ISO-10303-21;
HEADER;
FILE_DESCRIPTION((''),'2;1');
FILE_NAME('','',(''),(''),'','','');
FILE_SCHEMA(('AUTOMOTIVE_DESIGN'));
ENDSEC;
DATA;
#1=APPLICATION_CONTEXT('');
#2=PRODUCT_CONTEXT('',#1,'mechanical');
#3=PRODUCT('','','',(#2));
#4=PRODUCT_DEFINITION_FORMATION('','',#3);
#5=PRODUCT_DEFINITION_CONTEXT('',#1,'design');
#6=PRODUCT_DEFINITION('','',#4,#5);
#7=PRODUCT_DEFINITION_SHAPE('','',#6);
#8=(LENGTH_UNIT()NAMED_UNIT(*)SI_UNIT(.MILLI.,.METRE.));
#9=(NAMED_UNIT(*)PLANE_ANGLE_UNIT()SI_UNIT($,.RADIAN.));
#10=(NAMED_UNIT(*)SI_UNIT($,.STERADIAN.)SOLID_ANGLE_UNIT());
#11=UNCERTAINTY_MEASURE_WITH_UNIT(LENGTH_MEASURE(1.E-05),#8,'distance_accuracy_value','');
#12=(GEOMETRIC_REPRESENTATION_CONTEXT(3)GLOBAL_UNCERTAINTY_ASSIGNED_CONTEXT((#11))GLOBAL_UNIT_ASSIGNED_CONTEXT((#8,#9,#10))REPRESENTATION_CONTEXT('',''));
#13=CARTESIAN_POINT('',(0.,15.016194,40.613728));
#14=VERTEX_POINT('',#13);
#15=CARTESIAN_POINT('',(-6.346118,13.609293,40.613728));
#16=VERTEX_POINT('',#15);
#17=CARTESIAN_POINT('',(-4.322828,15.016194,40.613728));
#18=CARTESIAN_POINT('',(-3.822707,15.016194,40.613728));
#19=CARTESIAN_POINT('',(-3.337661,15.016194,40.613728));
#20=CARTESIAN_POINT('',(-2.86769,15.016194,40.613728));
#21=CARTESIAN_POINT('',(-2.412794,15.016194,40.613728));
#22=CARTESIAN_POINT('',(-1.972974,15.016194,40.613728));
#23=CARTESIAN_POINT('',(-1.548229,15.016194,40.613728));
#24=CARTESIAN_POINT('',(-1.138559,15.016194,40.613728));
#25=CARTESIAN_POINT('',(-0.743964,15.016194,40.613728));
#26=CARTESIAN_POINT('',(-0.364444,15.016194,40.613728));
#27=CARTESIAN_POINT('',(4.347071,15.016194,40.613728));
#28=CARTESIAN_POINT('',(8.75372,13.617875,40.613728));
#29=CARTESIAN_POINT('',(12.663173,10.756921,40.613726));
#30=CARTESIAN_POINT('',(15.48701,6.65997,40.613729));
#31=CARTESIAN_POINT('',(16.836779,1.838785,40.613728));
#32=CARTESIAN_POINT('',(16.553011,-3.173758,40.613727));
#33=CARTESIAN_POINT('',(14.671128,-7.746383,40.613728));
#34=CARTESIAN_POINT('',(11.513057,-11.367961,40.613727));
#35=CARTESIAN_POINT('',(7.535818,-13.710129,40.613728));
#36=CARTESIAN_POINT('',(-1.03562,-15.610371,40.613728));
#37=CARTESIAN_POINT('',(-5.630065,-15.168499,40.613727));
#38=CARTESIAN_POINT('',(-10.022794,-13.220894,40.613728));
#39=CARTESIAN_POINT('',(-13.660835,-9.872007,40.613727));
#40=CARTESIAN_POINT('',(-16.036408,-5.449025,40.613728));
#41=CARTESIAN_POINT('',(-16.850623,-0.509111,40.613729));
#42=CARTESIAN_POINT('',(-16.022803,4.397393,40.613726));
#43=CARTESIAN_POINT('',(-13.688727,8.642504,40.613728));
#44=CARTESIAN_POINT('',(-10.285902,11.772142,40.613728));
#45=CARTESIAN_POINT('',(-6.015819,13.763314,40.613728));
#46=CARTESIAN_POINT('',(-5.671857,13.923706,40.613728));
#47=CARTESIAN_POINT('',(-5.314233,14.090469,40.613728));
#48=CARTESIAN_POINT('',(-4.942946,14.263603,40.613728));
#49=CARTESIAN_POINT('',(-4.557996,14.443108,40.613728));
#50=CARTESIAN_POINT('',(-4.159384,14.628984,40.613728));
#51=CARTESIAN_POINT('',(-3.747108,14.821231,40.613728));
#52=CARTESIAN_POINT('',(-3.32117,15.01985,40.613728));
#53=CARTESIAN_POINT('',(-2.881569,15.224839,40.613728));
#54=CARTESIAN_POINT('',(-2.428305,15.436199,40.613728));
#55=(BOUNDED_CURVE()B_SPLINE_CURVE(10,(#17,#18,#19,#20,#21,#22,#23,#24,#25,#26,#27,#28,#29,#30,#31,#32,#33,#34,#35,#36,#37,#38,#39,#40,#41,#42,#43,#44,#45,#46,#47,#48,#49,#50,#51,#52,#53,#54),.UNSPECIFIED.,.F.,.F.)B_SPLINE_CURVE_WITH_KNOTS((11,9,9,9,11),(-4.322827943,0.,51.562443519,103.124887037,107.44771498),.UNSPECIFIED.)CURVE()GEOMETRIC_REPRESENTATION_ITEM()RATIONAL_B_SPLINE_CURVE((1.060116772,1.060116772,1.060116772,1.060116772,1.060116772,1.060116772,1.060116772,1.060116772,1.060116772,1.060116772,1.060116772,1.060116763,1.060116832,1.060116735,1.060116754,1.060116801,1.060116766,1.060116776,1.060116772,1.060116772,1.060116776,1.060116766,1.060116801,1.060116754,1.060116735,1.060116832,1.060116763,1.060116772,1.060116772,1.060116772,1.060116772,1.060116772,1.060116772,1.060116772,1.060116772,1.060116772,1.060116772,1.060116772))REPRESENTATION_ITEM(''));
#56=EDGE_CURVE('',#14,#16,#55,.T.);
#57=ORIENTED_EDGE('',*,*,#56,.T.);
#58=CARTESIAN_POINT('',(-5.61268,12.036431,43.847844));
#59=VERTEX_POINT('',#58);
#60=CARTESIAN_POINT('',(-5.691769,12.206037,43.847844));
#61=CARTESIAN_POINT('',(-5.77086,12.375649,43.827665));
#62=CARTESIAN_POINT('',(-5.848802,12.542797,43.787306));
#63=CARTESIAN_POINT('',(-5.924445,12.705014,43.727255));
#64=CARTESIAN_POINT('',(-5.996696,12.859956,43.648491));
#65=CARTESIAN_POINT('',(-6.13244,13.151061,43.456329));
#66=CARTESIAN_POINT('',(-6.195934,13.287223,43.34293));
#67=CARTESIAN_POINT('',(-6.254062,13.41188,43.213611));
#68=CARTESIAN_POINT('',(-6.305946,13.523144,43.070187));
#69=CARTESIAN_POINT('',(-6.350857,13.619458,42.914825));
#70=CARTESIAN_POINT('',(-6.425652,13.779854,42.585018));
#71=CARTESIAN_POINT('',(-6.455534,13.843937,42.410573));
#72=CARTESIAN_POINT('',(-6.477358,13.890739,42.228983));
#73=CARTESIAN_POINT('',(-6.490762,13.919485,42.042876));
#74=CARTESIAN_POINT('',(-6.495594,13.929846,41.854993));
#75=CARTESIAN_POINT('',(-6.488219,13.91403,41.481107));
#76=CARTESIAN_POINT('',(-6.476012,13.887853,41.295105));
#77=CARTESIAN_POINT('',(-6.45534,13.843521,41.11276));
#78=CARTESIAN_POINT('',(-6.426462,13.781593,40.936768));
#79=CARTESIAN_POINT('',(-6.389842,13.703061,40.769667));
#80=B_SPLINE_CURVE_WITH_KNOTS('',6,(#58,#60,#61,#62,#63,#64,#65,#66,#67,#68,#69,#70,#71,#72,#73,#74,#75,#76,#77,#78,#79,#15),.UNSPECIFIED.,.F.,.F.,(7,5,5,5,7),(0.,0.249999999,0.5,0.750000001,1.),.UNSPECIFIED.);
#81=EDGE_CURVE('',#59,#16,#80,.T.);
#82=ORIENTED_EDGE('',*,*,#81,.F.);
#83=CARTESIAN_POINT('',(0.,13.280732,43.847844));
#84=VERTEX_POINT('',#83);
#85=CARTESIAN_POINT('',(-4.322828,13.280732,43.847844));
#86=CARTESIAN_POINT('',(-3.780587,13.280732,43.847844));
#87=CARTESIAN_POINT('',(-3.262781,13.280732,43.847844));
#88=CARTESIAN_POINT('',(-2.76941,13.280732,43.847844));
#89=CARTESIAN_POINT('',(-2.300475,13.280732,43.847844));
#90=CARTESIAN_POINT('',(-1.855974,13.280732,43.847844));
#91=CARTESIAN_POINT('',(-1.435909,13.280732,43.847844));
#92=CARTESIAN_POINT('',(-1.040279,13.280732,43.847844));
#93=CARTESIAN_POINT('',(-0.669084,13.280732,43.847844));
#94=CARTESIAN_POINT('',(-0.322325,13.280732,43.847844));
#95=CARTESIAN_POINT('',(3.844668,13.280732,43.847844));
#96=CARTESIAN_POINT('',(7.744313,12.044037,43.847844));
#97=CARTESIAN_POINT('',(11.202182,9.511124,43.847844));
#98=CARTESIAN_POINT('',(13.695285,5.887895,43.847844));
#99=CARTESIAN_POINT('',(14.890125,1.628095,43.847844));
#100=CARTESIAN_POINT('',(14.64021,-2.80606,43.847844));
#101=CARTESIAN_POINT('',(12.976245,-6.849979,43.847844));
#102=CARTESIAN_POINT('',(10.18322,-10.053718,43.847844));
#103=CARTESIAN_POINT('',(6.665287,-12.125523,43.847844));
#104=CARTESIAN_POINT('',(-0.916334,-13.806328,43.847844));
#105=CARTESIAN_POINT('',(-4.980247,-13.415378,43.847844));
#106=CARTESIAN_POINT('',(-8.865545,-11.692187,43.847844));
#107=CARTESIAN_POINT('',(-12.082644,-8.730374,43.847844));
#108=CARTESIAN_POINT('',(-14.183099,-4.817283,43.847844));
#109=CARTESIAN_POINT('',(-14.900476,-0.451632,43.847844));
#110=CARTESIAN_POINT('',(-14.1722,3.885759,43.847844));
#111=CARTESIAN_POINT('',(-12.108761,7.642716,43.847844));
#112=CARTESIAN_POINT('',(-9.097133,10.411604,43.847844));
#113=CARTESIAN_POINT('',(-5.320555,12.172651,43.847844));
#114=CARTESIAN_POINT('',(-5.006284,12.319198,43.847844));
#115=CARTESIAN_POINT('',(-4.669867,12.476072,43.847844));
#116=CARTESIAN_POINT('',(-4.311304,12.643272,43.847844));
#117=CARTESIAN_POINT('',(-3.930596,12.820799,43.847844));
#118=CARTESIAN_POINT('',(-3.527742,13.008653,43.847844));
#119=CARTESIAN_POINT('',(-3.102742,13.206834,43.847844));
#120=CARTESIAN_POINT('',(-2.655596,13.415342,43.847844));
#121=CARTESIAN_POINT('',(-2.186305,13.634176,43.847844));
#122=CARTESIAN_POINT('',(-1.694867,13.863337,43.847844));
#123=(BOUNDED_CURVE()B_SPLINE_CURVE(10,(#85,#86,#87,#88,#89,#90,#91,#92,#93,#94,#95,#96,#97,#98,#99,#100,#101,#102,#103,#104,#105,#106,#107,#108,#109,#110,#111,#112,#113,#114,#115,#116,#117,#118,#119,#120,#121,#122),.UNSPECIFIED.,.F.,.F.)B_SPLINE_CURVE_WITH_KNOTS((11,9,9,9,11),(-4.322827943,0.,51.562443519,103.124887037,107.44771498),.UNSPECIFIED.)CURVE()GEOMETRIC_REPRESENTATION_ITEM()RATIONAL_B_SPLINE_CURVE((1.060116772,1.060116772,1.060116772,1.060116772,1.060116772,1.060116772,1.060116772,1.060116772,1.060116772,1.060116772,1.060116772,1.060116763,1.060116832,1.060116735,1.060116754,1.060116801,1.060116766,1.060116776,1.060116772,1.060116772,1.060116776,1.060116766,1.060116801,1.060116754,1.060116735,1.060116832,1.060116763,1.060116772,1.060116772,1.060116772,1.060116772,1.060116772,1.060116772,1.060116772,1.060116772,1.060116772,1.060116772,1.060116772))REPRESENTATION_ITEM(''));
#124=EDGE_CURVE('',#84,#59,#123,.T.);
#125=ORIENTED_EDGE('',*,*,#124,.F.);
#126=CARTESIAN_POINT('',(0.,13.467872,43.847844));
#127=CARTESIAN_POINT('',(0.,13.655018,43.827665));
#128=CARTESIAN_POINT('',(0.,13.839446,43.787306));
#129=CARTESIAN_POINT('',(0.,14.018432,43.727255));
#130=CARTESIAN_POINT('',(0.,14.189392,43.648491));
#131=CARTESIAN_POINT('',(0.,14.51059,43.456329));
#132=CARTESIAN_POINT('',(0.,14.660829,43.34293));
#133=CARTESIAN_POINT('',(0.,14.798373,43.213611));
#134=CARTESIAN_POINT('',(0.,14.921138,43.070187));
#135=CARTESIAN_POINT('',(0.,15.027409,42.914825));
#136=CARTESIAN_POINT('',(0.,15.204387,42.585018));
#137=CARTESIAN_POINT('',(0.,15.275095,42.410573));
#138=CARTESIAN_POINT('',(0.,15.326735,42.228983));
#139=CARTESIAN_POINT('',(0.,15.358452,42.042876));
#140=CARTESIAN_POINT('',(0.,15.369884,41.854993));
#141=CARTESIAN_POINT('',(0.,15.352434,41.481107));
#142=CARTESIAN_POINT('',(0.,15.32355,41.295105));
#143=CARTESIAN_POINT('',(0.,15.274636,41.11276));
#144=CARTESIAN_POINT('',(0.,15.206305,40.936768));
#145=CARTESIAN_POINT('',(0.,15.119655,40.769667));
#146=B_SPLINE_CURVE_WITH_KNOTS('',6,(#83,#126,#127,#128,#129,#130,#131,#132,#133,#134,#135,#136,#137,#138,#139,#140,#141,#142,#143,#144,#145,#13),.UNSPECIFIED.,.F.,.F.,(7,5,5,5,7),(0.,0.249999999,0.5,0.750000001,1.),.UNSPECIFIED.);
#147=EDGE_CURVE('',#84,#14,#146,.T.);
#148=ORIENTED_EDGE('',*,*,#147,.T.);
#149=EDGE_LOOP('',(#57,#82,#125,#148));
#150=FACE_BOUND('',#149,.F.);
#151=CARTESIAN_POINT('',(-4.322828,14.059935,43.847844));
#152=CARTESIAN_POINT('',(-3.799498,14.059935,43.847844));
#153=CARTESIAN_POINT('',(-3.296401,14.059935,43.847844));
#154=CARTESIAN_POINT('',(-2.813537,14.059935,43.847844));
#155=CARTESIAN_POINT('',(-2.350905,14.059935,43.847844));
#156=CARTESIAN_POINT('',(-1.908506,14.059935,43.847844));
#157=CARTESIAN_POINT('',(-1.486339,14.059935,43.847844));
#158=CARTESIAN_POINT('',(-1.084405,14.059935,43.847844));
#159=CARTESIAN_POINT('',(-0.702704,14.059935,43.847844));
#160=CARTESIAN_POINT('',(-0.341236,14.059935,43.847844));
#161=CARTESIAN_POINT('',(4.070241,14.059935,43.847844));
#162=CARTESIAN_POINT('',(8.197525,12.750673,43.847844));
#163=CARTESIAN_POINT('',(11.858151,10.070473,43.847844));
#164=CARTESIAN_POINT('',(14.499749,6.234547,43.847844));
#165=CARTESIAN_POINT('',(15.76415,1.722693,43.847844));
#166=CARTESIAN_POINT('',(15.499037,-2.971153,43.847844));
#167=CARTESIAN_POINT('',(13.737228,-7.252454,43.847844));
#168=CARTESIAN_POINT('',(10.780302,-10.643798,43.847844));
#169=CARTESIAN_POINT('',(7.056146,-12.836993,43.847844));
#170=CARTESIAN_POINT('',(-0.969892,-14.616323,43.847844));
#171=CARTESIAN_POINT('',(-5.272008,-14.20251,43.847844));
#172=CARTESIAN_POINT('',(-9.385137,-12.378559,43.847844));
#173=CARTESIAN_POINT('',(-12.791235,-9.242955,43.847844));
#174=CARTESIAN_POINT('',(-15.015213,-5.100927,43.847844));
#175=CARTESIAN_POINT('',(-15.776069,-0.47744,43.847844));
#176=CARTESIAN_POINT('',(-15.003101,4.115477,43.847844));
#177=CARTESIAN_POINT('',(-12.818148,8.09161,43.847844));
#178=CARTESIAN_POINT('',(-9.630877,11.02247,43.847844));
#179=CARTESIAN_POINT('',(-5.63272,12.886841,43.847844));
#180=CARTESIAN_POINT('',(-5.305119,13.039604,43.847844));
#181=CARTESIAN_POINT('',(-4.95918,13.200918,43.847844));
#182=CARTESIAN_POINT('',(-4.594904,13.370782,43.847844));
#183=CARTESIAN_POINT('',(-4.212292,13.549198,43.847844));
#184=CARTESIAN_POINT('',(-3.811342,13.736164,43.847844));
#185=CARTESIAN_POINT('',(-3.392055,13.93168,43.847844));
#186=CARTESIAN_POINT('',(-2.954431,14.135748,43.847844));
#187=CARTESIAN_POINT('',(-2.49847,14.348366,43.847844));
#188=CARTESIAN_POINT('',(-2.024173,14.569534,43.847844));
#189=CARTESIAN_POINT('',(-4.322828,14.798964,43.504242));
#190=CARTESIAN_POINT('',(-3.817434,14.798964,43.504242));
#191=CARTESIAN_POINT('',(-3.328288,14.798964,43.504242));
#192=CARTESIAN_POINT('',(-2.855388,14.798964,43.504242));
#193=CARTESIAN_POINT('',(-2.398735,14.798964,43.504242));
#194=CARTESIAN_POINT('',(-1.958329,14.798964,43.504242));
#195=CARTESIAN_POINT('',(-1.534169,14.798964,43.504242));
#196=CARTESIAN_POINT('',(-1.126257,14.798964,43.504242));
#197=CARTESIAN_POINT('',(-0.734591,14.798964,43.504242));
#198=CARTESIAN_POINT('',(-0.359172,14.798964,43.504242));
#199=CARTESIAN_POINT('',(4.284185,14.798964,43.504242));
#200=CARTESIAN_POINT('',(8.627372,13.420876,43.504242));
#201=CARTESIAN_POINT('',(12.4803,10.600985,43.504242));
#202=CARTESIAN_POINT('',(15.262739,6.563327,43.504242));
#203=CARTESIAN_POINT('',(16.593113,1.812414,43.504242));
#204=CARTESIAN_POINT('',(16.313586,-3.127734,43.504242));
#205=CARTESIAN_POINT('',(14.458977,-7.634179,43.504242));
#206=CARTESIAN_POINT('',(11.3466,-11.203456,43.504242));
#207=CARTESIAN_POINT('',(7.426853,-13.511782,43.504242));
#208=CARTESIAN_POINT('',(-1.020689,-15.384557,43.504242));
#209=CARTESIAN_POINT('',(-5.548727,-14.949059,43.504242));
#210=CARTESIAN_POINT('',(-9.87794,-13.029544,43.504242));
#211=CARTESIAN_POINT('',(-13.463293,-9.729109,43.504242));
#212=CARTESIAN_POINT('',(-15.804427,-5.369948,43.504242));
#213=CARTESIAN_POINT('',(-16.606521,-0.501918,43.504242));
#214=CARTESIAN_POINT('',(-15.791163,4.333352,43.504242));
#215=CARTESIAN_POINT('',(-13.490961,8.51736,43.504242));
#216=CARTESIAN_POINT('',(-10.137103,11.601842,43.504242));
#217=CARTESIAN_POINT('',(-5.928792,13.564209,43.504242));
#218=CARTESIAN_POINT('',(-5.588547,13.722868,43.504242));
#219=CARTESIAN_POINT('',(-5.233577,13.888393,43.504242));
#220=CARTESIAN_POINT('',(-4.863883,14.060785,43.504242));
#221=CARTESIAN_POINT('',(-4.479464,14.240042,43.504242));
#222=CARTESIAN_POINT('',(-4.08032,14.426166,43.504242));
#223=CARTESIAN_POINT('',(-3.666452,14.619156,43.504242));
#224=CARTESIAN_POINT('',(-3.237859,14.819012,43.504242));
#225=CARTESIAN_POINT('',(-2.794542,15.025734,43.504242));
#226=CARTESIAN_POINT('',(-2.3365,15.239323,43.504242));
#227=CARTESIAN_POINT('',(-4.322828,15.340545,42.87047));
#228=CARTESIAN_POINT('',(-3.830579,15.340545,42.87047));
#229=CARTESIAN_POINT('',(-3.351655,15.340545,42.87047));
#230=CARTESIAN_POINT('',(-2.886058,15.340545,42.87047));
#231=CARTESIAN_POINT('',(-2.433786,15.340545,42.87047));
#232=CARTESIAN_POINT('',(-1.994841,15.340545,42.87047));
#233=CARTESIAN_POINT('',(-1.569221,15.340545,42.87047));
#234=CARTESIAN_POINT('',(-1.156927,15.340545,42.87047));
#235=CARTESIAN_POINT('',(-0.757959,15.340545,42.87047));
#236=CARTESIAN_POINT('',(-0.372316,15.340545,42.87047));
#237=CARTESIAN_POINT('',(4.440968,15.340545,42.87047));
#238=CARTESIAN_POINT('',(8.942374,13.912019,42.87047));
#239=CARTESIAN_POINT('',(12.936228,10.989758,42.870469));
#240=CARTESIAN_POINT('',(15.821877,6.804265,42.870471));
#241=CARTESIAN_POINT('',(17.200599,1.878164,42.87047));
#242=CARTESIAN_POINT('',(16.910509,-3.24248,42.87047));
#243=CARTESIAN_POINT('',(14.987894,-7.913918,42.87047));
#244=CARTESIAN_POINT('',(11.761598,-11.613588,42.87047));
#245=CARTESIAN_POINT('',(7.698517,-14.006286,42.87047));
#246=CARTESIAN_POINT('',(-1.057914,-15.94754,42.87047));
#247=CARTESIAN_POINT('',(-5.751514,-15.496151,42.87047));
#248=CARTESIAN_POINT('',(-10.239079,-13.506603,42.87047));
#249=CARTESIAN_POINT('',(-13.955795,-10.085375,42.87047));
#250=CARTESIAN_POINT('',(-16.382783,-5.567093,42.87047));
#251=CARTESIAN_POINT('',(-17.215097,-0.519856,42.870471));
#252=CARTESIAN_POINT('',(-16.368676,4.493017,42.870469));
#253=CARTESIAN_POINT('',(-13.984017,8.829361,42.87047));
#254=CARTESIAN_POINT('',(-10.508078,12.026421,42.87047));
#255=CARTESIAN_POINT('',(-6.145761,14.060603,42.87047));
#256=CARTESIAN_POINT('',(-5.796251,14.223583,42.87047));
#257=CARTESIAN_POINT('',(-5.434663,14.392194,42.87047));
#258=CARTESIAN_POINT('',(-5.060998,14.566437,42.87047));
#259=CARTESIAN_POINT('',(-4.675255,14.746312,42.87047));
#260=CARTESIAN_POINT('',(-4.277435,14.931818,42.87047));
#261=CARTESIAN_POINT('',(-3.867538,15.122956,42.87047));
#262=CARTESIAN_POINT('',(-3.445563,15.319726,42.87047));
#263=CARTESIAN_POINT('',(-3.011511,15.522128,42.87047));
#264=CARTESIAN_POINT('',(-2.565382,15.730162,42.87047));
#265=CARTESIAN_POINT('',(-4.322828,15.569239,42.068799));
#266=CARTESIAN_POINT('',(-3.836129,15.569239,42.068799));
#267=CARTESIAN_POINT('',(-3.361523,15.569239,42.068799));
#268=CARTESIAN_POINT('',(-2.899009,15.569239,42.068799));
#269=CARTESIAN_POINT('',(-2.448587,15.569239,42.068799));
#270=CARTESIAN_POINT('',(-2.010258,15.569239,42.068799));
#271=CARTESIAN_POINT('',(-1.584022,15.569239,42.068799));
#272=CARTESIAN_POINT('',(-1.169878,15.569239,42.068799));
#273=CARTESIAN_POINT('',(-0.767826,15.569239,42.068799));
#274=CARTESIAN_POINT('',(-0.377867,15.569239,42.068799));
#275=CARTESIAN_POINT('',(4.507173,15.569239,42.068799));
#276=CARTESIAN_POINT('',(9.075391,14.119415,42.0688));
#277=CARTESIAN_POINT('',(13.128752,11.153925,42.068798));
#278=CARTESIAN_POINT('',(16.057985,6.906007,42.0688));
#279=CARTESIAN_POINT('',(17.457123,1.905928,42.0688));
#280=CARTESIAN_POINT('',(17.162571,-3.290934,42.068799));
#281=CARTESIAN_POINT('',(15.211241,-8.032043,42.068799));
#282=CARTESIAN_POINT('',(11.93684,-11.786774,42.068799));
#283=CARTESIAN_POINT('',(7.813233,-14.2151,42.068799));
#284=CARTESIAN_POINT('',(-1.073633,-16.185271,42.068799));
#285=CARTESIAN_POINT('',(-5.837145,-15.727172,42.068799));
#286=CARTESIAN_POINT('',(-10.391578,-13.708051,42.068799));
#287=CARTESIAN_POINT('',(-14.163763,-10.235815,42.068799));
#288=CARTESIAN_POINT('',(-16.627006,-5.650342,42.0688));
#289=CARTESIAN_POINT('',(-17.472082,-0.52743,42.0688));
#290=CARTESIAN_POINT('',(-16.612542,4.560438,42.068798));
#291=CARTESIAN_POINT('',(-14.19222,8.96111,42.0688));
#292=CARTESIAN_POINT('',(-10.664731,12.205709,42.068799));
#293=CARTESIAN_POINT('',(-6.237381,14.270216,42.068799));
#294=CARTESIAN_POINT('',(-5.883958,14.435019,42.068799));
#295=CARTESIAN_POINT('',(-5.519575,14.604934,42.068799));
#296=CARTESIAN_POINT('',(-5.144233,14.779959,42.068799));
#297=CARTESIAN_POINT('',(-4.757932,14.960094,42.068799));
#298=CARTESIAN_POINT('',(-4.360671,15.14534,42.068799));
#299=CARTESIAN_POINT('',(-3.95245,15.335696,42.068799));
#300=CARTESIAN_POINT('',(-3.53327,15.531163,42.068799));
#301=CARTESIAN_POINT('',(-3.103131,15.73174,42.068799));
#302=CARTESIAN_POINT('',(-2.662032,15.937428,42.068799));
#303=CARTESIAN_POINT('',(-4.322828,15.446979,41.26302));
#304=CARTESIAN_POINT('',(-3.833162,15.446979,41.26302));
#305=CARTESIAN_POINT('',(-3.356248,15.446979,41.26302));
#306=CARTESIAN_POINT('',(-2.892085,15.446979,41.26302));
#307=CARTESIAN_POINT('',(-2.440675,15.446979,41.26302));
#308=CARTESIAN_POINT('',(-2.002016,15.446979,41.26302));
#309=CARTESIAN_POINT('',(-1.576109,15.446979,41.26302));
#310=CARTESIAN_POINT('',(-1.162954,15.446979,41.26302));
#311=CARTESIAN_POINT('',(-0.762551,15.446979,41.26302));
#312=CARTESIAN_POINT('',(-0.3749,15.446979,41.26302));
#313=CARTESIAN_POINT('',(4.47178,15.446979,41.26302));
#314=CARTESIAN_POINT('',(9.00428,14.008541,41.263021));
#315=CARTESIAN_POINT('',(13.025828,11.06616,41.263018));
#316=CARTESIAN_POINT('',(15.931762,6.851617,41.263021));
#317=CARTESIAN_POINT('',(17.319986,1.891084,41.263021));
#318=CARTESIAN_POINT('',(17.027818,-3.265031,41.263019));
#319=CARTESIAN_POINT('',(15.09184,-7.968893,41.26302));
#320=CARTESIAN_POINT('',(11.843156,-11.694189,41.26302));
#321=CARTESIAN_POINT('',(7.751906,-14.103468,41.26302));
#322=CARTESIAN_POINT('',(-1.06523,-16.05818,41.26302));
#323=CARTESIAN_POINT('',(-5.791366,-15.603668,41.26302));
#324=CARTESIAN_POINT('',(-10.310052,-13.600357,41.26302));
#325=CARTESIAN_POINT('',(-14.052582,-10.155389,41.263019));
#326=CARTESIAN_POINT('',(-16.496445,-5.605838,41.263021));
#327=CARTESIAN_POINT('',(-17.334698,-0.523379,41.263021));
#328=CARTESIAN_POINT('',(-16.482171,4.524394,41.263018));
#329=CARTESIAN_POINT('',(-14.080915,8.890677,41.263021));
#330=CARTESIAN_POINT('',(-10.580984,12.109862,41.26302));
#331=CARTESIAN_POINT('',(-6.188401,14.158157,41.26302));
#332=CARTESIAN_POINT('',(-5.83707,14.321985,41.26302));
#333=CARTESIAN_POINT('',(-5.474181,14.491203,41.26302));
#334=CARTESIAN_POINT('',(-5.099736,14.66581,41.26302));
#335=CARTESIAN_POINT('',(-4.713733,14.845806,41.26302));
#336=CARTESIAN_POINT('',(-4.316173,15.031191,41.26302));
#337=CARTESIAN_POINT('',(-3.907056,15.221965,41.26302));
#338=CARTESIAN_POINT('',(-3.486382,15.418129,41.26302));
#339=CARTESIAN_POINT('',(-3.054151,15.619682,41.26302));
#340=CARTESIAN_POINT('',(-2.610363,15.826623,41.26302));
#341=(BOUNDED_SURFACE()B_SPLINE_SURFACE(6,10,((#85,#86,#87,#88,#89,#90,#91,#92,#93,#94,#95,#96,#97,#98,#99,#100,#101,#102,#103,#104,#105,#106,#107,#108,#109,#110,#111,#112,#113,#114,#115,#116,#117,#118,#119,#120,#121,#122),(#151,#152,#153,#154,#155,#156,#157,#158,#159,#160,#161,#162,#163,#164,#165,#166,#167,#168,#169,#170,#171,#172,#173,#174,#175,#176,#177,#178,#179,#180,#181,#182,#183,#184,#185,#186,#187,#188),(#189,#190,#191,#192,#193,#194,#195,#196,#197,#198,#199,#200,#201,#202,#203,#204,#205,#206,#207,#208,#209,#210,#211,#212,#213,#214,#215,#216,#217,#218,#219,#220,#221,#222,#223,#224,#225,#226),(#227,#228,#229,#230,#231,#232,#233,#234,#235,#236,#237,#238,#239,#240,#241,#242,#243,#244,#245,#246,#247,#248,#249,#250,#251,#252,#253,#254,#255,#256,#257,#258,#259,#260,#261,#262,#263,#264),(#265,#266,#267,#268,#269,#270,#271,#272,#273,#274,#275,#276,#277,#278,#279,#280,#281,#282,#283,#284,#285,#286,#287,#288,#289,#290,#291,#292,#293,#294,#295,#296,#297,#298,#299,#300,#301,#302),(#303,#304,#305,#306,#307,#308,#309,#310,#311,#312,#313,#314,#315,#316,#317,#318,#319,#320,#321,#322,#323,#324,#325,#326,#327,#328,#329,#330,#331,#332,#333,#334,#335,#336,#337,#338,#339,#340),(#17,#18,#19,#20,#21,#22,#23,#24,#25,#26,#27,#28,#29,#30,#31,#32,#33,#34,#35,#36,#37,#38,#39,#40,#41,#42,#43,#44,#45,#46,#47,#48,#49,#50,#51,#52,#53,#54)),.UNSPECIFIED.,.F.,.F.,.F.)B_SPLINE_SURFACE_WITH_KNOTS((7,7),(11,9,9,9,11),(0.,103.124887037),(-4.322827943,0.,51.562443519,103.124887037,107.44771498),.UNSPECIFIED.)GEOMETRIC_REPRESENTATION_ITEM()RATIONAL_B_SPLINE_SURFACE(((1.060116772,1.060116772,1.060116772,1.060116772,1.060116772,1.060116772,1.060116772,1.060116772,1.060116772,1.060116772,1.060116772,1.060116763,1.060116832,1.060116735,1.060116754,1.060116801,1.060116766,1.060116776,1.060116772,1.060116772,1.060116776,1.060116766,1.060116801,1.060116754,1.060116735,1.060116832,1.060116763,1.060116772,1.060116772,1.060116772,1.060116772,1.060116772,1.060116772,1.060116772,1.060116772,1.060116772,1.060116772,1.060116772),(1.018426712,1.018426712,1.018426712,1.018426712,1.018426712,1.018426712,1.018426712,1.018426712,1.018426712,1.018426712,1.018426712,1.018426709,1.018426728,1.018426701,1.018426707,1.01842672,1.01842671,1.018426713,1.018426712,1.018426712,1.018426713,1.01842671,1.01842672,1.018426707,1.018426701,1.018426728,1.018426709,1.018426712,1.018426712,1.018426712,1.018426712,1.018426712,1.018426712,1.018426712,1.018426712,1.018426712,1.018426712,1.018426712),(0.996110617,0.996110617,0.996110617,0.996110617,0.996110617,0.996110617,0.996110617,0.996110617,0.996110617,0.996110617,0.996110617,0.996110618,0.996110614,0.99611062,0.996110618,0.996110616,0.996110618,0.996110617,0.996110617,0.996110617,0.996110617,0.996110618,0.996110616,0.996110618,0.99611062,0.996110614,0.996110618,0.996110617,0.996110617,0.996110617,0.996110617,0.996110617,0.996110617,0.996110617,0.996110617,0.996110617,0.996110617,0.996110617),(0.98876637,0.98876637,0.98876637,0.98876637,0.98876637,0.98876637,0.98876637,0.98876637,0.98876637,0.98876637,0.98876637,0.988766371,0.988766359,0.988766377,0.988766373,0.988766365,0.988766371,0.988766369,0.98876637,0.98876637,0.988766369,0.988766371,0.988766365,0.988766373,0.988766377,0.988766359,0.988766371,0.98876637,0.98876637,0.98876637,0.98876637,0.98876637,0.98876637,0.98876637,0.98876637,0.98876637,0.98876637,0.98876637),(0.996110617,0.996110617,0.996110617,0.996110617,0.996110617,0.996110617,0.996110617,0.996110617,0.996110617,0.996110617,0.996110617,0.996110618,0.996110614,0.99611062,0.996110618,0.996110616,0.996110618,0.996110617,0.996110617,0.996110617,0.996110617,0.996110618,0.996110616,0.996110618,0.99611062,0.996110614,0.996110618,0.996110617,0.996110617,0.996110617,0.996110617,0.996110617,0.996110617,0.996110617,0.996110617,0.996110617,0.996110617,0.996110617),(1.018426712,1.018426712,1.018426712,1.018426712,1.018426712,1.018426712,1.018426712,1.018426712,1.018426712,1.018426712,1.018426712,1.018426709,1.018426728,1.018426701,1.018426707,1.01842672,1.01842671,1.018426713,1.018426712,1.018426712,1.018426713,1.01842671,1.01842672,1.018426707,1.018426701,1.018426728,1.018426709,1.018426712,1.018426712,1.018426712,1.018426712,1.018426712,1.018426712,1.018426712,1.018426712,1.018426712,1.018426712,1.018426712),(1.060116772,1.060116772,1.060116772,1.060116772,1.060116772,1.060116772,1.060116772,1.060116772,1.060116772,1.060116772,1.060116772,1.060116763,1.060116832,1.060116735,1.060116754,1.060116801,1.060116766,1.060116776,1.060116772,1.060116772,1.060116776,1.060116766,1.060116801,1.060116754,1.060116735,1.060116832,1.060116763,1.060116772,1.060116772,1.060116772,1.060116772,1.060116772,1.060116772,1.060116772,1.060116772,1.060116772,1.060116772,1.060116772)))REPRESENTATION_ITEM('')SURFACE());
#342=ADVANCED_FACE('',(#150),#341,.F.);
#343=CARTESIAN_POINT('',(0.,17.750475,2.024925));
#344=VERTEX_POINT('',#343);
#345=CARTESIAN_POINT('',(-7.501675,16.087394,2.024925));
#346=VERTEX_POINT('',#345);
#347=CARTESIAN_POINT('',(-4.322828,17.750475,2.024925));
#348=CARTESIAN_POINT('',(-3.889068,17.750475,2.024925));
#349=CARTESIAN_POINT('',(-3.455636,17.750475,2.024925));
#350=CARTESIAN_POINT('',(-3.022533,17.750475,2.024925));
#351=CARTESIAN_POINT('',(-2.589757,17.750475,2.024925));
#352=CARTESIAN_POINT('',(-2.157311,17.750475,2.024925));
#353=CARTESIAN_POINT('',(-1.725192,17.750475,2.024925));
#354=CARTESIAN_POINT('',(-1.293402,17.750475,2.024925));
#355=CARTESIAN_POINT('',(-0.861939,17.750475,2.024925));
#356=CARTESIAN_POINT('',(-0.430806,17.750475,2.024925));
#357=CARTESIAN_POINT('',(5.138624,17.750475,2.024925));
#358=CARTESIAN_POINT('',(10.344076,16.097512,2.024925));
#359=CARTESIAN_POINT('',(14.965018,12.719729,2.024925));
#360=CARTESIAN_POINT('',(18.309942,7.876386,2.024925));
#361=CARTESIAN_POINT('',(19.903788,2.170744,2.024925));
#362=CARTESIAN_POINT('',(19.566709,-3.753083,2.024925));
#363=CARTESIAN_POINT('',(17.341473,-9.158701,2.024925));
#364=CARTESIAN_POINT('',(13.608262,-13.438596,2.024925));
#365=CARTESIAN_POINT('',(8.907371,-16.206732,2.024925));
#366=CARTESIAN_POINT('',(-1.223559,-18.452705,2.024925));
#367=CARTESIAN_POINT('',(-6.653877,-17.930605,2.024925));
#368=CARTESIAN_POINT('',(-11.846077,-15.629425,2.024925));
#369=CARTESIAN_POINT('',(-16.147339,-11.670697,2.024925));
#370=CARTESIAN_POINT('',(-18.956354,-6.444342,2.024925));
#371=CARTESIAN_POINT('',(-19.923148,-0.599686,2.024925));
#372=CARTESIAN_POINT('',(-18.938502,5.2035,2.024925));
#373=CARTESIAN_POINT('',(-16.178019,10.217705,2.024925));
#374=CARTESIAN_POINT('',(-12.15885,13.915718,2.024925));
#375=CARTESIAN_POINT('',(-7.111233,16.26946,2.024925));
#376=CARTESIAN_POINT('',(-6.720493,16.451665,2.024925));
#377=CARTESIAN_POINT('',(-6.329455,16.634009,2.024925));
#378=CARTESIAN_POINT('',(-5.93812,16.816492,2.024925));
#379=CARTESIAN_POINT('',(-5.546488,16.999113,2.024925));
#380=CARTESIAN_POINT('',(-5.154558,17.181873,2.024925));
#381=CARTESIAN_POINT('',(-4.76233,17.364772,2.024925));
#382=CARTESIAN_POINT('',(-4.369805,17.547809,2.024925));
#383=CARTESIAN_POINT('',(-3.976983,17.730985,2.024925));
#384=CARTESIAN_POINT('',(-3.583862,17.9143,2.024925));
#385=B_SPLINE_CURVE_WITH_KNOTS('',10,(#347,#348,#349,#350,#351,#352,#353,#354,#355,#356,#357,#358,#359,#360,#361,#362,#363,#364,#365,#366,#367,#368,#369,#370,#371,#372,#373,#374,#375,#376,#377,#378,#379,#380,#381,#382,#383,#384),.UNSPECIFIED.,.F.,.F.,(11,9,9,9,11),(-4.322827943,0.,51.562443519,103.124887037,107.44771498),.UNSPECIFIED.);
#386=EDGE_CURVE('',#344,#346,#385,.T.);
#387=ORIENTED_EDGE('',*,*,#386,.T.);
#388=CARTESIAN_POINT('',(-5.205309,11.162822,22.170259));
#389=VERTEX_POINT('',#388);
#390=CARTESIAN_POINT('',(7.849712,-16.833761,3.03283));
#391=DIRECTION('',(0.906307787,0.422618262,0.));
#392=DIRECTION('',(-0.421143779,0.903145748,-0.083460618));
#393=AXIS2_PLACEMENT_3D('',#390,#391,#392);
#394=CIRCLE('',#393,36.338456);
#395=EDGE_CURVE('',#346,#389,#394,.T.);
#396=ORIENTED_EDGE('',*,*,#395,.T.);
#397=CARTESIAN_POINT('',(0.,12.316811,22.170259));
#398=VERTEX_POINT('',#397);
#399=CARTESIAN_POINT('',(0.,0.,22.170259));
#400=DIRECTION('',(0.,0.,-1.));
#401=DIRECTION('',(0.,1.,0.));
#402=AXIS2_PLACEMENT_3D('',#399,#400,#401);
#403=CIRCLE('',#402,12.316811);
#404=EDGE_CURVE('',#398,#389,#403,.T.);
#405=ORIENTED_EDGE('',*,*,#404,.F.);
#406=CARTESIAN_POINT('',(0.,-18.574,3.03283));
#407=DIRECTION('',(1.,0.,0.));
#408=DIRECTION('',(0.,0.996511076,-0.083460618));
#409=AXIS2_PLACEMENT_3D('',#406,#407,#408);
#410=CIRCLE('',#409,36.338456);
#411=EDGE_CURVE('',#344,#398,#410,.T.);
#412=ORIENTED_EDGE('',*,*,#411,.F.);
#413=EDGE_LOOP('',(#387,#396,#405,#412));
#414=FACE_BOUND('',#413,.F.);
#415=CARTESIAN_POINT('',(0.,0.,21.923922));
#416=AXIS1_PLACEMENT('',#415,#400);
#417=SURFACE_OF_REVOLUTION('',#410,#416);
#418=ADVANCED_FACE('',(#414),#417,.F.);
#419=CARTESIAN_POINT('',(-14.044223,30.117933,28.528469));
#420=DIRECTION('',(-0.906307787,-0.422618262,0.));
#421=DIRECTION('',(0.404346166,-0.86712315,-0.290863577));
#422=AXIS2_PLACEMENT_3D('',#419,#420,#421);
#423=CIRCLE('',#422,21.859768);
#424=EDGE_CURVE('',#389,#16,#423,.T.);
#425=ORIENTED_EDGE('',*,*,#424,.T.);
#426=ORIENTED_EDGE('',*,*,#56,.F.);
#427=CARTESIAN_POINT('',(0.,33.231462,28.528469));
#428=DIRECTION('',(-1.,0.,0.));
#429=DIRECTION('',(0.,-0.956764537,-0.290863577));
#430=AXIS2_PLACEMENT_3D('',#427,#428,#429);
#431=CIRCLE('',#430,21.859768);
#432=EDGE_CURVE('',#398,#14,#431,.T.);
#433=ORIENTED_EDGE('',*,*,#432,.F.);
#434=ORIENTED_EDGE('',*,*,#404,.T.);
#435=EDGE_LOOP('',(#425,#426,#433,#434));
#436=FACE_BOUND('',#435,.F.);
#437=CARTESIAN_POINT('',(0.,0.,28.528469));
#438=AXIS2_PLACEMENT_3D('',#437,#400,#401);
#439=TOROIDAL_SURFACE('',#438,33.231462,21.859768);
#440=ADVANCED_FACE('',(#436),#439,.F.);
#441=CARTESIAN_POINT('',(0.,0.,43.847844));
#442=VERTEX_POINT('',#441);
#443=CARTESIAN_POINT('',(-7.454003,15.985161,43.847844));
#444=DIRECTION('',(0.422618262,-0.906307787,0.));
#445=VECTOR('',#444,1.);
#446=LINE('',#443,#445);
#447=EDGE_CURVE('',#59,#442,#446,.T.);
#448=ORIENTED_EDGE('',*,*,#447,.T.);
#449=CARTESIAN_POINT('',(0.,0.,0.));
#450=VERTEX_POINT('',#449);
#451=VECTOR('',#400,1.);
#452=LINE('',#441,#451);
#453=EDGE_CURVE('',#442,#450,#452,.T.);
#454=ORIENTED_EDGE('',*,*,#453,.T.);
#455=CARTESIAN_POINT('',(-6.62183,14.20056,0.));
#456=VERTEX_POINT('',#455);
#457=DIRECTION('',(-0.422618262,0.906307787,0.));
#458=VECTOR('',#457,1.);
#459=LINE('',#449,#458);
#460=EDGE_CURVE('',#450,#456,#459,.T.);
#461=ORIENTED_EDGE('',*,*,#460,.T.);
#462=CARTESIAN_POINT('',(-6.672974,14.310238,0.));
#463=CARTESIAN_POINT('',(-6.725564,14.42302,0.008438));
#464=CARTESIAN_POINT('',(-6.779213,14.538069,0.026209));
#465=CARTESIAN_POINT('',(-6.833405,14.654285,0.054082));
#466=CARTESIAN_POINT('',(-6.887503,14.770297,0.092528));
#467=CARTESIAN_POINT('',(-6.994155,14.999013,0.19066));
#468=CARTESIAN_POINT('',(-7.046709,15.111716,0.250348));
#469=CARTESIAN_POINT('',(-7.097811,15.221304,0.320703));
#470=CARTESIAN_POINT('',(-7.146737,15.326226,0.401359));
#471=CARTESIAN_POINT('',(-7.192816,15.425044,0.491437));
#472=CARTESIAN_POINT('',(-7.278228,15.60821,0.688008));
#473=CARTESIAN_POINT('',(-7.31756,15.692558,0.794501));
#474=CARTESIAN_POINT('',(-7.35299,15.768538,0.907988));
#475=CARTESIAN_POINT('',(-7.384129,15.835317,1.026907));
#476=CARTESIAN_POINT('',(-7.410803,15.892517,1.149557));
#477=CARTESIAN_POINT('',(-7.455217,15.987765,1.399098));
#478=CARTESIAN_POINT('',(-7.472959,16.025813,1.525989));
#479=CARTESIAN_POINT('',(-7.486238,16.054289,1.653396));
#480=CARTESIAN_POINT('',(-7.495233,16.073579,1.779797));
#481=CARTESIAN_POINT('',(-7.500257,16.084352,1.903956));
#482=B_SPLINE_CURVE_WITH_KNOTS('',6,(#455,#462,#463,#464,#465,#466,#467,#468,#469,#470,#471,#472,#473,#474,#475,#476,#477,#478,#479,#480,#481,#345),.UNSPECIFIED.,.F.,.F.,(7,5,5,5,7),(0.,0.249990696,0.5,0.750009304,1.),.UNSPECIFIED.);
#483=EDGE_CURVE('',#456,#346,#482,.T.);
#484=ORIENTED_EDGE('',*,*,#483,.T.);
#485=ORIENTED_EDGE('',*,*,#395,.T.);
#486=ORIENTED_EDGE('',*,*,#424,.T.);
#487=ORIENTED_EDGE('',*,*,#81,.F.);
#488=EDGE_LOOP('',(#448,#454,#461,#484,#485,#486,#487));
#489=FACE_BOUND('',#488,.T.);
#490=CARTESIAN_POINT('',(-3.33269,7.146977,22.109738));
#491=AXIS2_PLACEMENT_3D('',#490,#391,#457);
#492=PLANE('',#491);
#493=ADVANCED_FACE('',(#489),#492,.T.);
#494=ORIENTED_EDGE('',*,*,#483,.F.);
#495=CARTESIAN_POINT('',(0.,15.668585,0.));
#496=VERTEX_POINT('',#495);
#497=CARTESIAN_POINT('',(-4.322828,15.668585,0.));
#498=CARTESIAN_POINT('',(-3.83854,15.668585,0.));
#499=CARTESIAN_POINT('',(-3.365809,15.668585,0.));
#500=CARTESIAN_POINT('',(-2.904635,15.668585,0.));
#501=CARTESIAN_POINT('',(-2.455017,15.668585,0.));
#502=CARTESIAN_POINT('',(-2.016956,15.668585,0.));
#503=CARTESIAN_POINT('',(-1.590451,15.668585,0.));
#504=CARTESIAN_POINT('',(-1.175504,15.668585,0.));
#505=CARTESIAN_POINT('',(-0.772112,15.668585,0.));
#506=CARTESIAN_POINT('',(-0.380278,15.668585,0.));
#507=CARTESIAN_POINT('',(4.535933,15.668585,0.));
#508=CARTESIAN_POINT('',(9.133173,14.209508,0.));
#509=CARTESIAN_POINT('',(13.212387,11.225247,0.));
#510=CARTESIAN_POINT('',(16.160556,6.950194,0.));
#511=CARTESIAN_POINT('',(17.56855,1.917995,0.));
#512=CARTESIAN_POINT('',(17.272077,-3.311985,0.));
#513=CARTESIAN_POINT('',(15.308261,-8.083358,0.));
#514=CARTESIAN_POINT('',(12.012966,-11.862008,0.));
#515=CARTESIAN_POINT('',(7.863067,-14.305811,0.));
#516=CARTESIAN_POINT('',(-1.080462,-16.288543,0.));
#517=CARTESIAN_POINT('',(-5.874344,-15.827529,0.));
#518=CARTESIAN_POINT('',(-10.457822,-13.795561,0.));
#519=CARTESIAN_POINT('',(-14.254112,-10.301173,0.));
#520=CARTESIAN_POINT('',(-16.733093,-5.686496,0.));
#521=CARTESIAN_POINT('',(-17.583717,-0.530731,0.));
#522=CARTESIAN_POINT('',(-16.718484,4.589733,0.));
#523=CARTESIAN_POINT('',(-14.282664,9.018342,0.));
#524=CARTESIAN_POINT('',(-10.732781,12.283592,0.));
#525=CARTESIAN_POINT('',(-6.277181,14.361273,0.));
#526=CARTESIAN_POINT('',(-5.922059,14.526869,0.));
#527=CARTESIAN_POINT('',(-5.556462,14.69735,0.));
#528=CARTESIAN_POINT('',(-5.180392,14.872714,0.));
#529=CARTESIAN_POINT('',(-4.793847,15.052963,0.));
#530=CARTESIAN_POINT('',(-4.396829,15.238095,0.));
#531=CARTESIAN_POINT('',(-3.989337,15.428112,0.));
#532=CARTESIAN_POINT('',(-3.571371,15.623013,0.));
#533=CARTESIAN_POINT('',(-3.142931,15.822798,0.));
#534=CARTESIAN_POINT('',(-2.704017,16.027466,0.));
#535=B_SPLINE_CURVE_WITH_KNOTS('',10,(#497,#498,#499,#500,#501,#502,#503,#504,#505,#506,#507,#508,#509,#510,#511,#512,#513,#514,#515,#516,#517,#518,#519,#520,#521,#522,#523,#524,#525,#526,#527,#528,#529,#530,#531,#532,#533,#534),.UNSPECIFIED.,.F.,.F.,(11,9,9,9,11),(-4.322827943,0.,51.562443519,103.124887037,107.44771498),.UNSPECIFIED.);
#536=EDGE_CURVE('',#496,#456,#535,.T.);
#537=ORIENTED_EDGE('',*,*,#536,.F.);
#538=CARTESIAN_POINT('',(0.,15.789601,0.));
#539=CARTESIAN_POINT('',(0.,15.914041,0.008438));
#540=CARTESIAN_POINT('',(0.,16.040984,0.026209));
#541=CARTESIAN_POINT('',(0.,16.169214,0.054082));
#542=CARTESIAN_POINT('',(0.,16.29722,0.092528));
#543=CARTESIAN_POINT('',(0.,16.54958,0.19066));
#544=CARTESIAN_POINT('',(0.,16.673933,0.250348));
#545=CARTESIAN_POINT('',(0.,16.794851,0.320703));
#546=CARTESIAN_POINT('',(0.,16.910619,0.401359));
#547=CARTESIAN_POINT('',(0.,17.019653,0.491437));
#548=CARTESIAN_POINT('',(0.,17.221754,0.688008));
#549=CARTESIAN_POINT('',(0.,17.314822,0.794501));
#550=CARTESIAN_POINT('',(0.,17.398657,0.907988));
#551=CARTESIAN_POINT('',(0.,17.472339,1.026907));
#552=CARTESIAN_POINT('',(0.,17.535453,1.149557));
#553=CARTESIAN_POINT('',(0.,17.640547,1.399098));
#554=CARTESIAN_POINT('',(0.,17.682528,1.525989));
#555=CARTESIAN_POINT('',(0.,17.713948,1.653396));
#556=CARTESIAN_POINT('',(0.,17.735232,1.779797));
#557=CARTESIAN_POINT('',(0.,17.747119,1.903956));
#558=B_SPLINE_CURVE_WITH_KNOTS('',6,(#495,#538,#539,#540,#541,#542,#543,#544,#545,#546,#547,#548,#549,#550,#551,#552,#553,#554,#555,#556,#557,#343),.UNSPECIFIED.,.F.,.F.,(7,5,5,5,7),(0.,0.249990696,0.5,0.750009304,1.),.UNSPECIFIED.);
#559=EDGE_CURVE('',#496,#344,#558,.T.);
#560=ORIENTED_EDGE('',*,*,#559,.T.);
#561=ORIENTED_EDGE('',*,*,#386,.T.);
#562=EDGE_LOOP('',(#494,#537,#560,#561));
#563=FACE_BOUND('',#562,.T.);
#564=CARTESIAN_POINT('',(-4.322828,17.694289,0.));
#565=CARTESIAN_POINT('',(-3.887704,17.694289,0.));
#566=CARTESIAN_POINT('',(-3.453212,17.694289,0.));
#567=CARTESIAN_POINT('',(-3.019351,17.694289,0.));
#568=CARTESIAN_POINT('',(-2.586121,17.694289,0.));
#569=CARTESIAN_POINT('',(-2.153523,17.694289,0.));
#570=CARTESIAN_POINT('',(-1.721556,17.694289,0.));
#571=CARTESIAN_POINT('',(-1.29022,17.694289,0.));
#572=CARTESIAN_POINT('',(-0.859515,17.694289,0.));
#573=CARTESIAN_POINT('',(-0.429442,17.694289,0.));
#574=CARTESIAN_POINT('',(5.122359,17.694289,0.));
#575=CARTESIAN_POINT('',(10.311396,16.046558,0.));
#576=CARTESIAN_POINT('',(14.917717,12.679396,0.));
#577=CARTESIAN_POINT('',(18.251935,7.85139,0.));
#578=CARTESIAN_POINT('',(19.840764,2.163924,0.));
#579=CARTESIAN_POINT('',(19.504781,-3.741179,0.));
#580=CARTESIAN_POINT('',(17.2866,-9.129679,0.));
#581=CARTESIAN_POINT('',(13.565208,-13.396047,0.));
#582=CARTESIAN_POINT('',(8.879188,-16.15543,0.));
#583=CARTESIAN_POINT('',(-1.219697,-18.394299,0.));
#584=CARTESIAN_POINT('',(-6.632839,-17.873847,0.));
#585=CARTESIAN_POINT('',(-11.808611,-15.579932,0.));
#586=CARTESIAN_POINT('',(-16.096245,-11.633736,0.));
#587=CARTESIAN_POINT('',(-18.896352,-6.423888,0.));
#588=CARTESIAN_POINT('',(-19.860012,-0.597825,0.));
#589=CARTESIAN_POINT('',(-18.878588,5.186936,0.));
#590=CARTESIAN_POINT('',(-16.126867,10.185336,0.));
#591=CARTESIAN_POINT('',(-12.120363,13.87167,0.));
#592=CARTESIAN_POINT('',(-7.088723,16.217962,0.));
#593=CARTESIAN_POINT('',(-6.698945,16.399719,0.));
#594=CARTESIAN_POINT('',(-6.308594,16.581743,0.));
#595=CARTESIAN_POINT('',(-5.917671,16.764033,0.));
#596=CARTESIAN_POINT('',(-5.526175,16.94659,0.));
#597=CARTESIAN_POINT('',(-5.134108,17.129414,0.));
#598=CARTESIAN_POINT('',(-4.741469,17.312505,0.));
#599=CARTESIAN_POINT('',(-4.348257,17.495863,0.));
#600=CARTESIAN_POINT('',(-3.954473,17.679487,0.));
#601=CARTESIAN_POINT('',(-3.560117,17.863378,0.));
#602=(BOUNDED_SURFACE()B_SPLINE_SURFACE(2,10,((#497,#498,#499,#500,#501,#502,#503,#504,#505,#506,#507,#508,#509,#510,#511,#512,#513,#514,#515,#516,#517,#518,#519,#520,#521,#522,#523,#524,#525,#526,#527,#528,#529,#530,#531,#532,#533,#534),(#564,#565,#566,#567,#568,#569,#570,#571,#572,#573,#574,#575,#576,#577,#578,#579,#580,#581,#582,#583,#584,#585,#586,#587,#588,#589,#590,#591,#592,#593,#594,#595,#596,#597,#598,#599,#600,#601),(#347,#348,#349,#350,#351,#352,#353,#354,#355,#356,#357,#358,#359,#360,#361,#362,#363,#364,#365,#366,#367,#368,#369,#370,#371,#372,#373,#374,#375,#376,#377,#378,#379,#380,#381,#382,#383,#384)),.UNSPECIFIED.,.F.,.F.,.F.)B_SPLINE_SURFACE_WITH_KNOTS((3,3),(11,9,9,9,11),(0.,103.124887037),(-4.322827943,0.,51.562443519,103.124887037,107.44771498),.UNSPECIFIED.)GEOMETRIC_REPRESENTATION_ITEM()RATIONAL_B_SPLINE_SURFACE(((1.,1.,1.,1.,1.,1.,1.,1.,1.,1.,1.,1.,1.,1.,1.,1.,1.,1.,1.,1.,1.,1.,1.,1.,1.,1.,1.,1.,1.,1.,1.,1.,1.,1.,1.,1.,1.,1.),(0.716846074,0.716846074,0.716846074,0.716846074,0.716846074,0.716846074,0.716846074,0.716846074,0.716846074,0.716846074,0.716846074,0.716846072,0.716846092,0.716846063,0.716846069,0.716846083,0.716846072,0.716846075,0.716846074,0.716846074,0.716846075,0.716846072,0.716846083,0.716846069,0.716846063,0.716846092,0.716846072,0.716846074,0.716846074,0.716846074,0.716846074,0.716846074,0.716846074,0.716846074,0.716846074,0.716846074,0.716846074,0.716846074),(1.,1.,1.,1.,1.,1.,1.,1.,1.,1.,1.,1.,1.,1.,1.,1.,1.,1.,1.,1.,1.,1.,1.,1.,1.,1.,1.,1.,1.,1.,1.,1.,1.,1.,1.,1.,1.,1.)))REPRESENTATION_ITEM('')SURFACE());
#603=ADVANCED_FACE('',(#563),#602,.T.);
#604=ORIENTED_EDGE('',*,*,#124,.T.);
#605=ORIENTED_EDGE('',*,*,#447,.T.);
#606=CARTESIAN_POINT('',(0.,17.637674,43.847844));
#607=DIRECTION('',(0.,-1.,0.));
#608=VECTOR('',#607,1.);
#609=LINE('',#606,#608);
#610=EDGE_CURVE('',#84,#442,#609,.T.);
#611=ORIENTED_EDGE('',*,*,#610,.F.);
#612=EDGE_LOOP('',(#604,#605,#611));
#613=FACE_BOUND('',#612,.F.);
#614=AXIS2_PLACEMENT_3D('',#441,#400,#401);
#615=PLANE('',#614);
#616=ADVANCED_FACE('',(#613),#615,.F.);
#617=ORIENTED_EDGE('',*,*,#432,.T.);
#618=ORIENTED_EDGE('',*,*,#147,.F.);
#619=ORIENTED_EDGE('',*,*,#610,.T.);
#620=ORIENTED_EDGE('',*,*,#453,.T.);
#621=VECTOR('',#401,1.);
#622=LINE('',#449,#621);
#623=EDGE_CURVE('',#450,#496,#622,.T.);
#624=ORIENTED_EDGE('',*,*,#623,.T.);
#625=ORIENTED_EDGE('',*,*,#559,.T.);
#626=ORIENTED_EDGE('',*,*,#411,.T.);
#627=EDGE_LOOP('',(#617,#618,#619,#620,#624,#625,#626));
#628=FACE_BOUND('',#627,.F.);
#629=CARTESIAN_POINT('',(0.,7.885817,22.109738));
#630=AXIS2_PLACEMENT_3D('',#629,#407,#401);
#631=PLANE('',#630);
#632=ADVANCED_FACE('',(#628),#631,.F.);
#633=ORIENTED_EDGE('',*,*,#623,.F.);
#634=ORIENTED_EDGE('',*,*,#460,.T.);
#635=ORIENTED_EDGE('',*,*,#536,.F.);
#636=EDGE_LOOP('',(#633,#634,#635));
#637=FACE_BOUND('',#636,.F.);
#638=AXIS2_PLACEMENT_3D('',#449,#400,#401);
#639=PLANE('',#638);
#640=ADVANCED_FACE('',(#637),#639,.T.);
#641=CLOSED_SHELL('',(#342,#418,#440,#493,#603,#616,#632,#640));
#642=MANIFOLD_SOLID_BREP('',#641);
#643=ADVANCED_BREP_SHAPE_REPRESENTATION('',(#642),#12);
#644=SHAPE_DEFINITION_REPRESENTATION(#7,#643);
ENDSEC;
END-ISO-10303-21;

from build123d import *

# Parameters (mm, degrees)
F1_ANGLE = 335
F2_R     = 2.082692


with BuildPart() as f1:
    # F0 (on Right) → F1 (revolve)
    with BuildSketch(Plane.YZ):
        with BuildLine():
            Line((17.637674, 43.847844), (0, 43.847844))
            Line((0, 43.847844), (0, 0))
            Line((0, 0), (17.637674, 0))
            ThreePointArc((17.637674, 0), (16.761053, 11.513244), (12.316811, 22.170259))
            ThreePointArc((12.316811, 22.170259), (12.001861, 33.739372), (17.637674, 43.847844))
        make_face()
    revolve(axis=Axis((0, 0, 21.923922), (0, 0, -1)), revolution_arc=F1_ANGLE)

    # F2
    f2_edges = [f1.edges().sort_by_distance(p)[0] for p in [
        (3.817491, -17.21959, 43.847844),
        (3.817491, -17.21959, 0),
    ]]
    fillet(f2_edges, radius=F2_R)


solid = f1.part
